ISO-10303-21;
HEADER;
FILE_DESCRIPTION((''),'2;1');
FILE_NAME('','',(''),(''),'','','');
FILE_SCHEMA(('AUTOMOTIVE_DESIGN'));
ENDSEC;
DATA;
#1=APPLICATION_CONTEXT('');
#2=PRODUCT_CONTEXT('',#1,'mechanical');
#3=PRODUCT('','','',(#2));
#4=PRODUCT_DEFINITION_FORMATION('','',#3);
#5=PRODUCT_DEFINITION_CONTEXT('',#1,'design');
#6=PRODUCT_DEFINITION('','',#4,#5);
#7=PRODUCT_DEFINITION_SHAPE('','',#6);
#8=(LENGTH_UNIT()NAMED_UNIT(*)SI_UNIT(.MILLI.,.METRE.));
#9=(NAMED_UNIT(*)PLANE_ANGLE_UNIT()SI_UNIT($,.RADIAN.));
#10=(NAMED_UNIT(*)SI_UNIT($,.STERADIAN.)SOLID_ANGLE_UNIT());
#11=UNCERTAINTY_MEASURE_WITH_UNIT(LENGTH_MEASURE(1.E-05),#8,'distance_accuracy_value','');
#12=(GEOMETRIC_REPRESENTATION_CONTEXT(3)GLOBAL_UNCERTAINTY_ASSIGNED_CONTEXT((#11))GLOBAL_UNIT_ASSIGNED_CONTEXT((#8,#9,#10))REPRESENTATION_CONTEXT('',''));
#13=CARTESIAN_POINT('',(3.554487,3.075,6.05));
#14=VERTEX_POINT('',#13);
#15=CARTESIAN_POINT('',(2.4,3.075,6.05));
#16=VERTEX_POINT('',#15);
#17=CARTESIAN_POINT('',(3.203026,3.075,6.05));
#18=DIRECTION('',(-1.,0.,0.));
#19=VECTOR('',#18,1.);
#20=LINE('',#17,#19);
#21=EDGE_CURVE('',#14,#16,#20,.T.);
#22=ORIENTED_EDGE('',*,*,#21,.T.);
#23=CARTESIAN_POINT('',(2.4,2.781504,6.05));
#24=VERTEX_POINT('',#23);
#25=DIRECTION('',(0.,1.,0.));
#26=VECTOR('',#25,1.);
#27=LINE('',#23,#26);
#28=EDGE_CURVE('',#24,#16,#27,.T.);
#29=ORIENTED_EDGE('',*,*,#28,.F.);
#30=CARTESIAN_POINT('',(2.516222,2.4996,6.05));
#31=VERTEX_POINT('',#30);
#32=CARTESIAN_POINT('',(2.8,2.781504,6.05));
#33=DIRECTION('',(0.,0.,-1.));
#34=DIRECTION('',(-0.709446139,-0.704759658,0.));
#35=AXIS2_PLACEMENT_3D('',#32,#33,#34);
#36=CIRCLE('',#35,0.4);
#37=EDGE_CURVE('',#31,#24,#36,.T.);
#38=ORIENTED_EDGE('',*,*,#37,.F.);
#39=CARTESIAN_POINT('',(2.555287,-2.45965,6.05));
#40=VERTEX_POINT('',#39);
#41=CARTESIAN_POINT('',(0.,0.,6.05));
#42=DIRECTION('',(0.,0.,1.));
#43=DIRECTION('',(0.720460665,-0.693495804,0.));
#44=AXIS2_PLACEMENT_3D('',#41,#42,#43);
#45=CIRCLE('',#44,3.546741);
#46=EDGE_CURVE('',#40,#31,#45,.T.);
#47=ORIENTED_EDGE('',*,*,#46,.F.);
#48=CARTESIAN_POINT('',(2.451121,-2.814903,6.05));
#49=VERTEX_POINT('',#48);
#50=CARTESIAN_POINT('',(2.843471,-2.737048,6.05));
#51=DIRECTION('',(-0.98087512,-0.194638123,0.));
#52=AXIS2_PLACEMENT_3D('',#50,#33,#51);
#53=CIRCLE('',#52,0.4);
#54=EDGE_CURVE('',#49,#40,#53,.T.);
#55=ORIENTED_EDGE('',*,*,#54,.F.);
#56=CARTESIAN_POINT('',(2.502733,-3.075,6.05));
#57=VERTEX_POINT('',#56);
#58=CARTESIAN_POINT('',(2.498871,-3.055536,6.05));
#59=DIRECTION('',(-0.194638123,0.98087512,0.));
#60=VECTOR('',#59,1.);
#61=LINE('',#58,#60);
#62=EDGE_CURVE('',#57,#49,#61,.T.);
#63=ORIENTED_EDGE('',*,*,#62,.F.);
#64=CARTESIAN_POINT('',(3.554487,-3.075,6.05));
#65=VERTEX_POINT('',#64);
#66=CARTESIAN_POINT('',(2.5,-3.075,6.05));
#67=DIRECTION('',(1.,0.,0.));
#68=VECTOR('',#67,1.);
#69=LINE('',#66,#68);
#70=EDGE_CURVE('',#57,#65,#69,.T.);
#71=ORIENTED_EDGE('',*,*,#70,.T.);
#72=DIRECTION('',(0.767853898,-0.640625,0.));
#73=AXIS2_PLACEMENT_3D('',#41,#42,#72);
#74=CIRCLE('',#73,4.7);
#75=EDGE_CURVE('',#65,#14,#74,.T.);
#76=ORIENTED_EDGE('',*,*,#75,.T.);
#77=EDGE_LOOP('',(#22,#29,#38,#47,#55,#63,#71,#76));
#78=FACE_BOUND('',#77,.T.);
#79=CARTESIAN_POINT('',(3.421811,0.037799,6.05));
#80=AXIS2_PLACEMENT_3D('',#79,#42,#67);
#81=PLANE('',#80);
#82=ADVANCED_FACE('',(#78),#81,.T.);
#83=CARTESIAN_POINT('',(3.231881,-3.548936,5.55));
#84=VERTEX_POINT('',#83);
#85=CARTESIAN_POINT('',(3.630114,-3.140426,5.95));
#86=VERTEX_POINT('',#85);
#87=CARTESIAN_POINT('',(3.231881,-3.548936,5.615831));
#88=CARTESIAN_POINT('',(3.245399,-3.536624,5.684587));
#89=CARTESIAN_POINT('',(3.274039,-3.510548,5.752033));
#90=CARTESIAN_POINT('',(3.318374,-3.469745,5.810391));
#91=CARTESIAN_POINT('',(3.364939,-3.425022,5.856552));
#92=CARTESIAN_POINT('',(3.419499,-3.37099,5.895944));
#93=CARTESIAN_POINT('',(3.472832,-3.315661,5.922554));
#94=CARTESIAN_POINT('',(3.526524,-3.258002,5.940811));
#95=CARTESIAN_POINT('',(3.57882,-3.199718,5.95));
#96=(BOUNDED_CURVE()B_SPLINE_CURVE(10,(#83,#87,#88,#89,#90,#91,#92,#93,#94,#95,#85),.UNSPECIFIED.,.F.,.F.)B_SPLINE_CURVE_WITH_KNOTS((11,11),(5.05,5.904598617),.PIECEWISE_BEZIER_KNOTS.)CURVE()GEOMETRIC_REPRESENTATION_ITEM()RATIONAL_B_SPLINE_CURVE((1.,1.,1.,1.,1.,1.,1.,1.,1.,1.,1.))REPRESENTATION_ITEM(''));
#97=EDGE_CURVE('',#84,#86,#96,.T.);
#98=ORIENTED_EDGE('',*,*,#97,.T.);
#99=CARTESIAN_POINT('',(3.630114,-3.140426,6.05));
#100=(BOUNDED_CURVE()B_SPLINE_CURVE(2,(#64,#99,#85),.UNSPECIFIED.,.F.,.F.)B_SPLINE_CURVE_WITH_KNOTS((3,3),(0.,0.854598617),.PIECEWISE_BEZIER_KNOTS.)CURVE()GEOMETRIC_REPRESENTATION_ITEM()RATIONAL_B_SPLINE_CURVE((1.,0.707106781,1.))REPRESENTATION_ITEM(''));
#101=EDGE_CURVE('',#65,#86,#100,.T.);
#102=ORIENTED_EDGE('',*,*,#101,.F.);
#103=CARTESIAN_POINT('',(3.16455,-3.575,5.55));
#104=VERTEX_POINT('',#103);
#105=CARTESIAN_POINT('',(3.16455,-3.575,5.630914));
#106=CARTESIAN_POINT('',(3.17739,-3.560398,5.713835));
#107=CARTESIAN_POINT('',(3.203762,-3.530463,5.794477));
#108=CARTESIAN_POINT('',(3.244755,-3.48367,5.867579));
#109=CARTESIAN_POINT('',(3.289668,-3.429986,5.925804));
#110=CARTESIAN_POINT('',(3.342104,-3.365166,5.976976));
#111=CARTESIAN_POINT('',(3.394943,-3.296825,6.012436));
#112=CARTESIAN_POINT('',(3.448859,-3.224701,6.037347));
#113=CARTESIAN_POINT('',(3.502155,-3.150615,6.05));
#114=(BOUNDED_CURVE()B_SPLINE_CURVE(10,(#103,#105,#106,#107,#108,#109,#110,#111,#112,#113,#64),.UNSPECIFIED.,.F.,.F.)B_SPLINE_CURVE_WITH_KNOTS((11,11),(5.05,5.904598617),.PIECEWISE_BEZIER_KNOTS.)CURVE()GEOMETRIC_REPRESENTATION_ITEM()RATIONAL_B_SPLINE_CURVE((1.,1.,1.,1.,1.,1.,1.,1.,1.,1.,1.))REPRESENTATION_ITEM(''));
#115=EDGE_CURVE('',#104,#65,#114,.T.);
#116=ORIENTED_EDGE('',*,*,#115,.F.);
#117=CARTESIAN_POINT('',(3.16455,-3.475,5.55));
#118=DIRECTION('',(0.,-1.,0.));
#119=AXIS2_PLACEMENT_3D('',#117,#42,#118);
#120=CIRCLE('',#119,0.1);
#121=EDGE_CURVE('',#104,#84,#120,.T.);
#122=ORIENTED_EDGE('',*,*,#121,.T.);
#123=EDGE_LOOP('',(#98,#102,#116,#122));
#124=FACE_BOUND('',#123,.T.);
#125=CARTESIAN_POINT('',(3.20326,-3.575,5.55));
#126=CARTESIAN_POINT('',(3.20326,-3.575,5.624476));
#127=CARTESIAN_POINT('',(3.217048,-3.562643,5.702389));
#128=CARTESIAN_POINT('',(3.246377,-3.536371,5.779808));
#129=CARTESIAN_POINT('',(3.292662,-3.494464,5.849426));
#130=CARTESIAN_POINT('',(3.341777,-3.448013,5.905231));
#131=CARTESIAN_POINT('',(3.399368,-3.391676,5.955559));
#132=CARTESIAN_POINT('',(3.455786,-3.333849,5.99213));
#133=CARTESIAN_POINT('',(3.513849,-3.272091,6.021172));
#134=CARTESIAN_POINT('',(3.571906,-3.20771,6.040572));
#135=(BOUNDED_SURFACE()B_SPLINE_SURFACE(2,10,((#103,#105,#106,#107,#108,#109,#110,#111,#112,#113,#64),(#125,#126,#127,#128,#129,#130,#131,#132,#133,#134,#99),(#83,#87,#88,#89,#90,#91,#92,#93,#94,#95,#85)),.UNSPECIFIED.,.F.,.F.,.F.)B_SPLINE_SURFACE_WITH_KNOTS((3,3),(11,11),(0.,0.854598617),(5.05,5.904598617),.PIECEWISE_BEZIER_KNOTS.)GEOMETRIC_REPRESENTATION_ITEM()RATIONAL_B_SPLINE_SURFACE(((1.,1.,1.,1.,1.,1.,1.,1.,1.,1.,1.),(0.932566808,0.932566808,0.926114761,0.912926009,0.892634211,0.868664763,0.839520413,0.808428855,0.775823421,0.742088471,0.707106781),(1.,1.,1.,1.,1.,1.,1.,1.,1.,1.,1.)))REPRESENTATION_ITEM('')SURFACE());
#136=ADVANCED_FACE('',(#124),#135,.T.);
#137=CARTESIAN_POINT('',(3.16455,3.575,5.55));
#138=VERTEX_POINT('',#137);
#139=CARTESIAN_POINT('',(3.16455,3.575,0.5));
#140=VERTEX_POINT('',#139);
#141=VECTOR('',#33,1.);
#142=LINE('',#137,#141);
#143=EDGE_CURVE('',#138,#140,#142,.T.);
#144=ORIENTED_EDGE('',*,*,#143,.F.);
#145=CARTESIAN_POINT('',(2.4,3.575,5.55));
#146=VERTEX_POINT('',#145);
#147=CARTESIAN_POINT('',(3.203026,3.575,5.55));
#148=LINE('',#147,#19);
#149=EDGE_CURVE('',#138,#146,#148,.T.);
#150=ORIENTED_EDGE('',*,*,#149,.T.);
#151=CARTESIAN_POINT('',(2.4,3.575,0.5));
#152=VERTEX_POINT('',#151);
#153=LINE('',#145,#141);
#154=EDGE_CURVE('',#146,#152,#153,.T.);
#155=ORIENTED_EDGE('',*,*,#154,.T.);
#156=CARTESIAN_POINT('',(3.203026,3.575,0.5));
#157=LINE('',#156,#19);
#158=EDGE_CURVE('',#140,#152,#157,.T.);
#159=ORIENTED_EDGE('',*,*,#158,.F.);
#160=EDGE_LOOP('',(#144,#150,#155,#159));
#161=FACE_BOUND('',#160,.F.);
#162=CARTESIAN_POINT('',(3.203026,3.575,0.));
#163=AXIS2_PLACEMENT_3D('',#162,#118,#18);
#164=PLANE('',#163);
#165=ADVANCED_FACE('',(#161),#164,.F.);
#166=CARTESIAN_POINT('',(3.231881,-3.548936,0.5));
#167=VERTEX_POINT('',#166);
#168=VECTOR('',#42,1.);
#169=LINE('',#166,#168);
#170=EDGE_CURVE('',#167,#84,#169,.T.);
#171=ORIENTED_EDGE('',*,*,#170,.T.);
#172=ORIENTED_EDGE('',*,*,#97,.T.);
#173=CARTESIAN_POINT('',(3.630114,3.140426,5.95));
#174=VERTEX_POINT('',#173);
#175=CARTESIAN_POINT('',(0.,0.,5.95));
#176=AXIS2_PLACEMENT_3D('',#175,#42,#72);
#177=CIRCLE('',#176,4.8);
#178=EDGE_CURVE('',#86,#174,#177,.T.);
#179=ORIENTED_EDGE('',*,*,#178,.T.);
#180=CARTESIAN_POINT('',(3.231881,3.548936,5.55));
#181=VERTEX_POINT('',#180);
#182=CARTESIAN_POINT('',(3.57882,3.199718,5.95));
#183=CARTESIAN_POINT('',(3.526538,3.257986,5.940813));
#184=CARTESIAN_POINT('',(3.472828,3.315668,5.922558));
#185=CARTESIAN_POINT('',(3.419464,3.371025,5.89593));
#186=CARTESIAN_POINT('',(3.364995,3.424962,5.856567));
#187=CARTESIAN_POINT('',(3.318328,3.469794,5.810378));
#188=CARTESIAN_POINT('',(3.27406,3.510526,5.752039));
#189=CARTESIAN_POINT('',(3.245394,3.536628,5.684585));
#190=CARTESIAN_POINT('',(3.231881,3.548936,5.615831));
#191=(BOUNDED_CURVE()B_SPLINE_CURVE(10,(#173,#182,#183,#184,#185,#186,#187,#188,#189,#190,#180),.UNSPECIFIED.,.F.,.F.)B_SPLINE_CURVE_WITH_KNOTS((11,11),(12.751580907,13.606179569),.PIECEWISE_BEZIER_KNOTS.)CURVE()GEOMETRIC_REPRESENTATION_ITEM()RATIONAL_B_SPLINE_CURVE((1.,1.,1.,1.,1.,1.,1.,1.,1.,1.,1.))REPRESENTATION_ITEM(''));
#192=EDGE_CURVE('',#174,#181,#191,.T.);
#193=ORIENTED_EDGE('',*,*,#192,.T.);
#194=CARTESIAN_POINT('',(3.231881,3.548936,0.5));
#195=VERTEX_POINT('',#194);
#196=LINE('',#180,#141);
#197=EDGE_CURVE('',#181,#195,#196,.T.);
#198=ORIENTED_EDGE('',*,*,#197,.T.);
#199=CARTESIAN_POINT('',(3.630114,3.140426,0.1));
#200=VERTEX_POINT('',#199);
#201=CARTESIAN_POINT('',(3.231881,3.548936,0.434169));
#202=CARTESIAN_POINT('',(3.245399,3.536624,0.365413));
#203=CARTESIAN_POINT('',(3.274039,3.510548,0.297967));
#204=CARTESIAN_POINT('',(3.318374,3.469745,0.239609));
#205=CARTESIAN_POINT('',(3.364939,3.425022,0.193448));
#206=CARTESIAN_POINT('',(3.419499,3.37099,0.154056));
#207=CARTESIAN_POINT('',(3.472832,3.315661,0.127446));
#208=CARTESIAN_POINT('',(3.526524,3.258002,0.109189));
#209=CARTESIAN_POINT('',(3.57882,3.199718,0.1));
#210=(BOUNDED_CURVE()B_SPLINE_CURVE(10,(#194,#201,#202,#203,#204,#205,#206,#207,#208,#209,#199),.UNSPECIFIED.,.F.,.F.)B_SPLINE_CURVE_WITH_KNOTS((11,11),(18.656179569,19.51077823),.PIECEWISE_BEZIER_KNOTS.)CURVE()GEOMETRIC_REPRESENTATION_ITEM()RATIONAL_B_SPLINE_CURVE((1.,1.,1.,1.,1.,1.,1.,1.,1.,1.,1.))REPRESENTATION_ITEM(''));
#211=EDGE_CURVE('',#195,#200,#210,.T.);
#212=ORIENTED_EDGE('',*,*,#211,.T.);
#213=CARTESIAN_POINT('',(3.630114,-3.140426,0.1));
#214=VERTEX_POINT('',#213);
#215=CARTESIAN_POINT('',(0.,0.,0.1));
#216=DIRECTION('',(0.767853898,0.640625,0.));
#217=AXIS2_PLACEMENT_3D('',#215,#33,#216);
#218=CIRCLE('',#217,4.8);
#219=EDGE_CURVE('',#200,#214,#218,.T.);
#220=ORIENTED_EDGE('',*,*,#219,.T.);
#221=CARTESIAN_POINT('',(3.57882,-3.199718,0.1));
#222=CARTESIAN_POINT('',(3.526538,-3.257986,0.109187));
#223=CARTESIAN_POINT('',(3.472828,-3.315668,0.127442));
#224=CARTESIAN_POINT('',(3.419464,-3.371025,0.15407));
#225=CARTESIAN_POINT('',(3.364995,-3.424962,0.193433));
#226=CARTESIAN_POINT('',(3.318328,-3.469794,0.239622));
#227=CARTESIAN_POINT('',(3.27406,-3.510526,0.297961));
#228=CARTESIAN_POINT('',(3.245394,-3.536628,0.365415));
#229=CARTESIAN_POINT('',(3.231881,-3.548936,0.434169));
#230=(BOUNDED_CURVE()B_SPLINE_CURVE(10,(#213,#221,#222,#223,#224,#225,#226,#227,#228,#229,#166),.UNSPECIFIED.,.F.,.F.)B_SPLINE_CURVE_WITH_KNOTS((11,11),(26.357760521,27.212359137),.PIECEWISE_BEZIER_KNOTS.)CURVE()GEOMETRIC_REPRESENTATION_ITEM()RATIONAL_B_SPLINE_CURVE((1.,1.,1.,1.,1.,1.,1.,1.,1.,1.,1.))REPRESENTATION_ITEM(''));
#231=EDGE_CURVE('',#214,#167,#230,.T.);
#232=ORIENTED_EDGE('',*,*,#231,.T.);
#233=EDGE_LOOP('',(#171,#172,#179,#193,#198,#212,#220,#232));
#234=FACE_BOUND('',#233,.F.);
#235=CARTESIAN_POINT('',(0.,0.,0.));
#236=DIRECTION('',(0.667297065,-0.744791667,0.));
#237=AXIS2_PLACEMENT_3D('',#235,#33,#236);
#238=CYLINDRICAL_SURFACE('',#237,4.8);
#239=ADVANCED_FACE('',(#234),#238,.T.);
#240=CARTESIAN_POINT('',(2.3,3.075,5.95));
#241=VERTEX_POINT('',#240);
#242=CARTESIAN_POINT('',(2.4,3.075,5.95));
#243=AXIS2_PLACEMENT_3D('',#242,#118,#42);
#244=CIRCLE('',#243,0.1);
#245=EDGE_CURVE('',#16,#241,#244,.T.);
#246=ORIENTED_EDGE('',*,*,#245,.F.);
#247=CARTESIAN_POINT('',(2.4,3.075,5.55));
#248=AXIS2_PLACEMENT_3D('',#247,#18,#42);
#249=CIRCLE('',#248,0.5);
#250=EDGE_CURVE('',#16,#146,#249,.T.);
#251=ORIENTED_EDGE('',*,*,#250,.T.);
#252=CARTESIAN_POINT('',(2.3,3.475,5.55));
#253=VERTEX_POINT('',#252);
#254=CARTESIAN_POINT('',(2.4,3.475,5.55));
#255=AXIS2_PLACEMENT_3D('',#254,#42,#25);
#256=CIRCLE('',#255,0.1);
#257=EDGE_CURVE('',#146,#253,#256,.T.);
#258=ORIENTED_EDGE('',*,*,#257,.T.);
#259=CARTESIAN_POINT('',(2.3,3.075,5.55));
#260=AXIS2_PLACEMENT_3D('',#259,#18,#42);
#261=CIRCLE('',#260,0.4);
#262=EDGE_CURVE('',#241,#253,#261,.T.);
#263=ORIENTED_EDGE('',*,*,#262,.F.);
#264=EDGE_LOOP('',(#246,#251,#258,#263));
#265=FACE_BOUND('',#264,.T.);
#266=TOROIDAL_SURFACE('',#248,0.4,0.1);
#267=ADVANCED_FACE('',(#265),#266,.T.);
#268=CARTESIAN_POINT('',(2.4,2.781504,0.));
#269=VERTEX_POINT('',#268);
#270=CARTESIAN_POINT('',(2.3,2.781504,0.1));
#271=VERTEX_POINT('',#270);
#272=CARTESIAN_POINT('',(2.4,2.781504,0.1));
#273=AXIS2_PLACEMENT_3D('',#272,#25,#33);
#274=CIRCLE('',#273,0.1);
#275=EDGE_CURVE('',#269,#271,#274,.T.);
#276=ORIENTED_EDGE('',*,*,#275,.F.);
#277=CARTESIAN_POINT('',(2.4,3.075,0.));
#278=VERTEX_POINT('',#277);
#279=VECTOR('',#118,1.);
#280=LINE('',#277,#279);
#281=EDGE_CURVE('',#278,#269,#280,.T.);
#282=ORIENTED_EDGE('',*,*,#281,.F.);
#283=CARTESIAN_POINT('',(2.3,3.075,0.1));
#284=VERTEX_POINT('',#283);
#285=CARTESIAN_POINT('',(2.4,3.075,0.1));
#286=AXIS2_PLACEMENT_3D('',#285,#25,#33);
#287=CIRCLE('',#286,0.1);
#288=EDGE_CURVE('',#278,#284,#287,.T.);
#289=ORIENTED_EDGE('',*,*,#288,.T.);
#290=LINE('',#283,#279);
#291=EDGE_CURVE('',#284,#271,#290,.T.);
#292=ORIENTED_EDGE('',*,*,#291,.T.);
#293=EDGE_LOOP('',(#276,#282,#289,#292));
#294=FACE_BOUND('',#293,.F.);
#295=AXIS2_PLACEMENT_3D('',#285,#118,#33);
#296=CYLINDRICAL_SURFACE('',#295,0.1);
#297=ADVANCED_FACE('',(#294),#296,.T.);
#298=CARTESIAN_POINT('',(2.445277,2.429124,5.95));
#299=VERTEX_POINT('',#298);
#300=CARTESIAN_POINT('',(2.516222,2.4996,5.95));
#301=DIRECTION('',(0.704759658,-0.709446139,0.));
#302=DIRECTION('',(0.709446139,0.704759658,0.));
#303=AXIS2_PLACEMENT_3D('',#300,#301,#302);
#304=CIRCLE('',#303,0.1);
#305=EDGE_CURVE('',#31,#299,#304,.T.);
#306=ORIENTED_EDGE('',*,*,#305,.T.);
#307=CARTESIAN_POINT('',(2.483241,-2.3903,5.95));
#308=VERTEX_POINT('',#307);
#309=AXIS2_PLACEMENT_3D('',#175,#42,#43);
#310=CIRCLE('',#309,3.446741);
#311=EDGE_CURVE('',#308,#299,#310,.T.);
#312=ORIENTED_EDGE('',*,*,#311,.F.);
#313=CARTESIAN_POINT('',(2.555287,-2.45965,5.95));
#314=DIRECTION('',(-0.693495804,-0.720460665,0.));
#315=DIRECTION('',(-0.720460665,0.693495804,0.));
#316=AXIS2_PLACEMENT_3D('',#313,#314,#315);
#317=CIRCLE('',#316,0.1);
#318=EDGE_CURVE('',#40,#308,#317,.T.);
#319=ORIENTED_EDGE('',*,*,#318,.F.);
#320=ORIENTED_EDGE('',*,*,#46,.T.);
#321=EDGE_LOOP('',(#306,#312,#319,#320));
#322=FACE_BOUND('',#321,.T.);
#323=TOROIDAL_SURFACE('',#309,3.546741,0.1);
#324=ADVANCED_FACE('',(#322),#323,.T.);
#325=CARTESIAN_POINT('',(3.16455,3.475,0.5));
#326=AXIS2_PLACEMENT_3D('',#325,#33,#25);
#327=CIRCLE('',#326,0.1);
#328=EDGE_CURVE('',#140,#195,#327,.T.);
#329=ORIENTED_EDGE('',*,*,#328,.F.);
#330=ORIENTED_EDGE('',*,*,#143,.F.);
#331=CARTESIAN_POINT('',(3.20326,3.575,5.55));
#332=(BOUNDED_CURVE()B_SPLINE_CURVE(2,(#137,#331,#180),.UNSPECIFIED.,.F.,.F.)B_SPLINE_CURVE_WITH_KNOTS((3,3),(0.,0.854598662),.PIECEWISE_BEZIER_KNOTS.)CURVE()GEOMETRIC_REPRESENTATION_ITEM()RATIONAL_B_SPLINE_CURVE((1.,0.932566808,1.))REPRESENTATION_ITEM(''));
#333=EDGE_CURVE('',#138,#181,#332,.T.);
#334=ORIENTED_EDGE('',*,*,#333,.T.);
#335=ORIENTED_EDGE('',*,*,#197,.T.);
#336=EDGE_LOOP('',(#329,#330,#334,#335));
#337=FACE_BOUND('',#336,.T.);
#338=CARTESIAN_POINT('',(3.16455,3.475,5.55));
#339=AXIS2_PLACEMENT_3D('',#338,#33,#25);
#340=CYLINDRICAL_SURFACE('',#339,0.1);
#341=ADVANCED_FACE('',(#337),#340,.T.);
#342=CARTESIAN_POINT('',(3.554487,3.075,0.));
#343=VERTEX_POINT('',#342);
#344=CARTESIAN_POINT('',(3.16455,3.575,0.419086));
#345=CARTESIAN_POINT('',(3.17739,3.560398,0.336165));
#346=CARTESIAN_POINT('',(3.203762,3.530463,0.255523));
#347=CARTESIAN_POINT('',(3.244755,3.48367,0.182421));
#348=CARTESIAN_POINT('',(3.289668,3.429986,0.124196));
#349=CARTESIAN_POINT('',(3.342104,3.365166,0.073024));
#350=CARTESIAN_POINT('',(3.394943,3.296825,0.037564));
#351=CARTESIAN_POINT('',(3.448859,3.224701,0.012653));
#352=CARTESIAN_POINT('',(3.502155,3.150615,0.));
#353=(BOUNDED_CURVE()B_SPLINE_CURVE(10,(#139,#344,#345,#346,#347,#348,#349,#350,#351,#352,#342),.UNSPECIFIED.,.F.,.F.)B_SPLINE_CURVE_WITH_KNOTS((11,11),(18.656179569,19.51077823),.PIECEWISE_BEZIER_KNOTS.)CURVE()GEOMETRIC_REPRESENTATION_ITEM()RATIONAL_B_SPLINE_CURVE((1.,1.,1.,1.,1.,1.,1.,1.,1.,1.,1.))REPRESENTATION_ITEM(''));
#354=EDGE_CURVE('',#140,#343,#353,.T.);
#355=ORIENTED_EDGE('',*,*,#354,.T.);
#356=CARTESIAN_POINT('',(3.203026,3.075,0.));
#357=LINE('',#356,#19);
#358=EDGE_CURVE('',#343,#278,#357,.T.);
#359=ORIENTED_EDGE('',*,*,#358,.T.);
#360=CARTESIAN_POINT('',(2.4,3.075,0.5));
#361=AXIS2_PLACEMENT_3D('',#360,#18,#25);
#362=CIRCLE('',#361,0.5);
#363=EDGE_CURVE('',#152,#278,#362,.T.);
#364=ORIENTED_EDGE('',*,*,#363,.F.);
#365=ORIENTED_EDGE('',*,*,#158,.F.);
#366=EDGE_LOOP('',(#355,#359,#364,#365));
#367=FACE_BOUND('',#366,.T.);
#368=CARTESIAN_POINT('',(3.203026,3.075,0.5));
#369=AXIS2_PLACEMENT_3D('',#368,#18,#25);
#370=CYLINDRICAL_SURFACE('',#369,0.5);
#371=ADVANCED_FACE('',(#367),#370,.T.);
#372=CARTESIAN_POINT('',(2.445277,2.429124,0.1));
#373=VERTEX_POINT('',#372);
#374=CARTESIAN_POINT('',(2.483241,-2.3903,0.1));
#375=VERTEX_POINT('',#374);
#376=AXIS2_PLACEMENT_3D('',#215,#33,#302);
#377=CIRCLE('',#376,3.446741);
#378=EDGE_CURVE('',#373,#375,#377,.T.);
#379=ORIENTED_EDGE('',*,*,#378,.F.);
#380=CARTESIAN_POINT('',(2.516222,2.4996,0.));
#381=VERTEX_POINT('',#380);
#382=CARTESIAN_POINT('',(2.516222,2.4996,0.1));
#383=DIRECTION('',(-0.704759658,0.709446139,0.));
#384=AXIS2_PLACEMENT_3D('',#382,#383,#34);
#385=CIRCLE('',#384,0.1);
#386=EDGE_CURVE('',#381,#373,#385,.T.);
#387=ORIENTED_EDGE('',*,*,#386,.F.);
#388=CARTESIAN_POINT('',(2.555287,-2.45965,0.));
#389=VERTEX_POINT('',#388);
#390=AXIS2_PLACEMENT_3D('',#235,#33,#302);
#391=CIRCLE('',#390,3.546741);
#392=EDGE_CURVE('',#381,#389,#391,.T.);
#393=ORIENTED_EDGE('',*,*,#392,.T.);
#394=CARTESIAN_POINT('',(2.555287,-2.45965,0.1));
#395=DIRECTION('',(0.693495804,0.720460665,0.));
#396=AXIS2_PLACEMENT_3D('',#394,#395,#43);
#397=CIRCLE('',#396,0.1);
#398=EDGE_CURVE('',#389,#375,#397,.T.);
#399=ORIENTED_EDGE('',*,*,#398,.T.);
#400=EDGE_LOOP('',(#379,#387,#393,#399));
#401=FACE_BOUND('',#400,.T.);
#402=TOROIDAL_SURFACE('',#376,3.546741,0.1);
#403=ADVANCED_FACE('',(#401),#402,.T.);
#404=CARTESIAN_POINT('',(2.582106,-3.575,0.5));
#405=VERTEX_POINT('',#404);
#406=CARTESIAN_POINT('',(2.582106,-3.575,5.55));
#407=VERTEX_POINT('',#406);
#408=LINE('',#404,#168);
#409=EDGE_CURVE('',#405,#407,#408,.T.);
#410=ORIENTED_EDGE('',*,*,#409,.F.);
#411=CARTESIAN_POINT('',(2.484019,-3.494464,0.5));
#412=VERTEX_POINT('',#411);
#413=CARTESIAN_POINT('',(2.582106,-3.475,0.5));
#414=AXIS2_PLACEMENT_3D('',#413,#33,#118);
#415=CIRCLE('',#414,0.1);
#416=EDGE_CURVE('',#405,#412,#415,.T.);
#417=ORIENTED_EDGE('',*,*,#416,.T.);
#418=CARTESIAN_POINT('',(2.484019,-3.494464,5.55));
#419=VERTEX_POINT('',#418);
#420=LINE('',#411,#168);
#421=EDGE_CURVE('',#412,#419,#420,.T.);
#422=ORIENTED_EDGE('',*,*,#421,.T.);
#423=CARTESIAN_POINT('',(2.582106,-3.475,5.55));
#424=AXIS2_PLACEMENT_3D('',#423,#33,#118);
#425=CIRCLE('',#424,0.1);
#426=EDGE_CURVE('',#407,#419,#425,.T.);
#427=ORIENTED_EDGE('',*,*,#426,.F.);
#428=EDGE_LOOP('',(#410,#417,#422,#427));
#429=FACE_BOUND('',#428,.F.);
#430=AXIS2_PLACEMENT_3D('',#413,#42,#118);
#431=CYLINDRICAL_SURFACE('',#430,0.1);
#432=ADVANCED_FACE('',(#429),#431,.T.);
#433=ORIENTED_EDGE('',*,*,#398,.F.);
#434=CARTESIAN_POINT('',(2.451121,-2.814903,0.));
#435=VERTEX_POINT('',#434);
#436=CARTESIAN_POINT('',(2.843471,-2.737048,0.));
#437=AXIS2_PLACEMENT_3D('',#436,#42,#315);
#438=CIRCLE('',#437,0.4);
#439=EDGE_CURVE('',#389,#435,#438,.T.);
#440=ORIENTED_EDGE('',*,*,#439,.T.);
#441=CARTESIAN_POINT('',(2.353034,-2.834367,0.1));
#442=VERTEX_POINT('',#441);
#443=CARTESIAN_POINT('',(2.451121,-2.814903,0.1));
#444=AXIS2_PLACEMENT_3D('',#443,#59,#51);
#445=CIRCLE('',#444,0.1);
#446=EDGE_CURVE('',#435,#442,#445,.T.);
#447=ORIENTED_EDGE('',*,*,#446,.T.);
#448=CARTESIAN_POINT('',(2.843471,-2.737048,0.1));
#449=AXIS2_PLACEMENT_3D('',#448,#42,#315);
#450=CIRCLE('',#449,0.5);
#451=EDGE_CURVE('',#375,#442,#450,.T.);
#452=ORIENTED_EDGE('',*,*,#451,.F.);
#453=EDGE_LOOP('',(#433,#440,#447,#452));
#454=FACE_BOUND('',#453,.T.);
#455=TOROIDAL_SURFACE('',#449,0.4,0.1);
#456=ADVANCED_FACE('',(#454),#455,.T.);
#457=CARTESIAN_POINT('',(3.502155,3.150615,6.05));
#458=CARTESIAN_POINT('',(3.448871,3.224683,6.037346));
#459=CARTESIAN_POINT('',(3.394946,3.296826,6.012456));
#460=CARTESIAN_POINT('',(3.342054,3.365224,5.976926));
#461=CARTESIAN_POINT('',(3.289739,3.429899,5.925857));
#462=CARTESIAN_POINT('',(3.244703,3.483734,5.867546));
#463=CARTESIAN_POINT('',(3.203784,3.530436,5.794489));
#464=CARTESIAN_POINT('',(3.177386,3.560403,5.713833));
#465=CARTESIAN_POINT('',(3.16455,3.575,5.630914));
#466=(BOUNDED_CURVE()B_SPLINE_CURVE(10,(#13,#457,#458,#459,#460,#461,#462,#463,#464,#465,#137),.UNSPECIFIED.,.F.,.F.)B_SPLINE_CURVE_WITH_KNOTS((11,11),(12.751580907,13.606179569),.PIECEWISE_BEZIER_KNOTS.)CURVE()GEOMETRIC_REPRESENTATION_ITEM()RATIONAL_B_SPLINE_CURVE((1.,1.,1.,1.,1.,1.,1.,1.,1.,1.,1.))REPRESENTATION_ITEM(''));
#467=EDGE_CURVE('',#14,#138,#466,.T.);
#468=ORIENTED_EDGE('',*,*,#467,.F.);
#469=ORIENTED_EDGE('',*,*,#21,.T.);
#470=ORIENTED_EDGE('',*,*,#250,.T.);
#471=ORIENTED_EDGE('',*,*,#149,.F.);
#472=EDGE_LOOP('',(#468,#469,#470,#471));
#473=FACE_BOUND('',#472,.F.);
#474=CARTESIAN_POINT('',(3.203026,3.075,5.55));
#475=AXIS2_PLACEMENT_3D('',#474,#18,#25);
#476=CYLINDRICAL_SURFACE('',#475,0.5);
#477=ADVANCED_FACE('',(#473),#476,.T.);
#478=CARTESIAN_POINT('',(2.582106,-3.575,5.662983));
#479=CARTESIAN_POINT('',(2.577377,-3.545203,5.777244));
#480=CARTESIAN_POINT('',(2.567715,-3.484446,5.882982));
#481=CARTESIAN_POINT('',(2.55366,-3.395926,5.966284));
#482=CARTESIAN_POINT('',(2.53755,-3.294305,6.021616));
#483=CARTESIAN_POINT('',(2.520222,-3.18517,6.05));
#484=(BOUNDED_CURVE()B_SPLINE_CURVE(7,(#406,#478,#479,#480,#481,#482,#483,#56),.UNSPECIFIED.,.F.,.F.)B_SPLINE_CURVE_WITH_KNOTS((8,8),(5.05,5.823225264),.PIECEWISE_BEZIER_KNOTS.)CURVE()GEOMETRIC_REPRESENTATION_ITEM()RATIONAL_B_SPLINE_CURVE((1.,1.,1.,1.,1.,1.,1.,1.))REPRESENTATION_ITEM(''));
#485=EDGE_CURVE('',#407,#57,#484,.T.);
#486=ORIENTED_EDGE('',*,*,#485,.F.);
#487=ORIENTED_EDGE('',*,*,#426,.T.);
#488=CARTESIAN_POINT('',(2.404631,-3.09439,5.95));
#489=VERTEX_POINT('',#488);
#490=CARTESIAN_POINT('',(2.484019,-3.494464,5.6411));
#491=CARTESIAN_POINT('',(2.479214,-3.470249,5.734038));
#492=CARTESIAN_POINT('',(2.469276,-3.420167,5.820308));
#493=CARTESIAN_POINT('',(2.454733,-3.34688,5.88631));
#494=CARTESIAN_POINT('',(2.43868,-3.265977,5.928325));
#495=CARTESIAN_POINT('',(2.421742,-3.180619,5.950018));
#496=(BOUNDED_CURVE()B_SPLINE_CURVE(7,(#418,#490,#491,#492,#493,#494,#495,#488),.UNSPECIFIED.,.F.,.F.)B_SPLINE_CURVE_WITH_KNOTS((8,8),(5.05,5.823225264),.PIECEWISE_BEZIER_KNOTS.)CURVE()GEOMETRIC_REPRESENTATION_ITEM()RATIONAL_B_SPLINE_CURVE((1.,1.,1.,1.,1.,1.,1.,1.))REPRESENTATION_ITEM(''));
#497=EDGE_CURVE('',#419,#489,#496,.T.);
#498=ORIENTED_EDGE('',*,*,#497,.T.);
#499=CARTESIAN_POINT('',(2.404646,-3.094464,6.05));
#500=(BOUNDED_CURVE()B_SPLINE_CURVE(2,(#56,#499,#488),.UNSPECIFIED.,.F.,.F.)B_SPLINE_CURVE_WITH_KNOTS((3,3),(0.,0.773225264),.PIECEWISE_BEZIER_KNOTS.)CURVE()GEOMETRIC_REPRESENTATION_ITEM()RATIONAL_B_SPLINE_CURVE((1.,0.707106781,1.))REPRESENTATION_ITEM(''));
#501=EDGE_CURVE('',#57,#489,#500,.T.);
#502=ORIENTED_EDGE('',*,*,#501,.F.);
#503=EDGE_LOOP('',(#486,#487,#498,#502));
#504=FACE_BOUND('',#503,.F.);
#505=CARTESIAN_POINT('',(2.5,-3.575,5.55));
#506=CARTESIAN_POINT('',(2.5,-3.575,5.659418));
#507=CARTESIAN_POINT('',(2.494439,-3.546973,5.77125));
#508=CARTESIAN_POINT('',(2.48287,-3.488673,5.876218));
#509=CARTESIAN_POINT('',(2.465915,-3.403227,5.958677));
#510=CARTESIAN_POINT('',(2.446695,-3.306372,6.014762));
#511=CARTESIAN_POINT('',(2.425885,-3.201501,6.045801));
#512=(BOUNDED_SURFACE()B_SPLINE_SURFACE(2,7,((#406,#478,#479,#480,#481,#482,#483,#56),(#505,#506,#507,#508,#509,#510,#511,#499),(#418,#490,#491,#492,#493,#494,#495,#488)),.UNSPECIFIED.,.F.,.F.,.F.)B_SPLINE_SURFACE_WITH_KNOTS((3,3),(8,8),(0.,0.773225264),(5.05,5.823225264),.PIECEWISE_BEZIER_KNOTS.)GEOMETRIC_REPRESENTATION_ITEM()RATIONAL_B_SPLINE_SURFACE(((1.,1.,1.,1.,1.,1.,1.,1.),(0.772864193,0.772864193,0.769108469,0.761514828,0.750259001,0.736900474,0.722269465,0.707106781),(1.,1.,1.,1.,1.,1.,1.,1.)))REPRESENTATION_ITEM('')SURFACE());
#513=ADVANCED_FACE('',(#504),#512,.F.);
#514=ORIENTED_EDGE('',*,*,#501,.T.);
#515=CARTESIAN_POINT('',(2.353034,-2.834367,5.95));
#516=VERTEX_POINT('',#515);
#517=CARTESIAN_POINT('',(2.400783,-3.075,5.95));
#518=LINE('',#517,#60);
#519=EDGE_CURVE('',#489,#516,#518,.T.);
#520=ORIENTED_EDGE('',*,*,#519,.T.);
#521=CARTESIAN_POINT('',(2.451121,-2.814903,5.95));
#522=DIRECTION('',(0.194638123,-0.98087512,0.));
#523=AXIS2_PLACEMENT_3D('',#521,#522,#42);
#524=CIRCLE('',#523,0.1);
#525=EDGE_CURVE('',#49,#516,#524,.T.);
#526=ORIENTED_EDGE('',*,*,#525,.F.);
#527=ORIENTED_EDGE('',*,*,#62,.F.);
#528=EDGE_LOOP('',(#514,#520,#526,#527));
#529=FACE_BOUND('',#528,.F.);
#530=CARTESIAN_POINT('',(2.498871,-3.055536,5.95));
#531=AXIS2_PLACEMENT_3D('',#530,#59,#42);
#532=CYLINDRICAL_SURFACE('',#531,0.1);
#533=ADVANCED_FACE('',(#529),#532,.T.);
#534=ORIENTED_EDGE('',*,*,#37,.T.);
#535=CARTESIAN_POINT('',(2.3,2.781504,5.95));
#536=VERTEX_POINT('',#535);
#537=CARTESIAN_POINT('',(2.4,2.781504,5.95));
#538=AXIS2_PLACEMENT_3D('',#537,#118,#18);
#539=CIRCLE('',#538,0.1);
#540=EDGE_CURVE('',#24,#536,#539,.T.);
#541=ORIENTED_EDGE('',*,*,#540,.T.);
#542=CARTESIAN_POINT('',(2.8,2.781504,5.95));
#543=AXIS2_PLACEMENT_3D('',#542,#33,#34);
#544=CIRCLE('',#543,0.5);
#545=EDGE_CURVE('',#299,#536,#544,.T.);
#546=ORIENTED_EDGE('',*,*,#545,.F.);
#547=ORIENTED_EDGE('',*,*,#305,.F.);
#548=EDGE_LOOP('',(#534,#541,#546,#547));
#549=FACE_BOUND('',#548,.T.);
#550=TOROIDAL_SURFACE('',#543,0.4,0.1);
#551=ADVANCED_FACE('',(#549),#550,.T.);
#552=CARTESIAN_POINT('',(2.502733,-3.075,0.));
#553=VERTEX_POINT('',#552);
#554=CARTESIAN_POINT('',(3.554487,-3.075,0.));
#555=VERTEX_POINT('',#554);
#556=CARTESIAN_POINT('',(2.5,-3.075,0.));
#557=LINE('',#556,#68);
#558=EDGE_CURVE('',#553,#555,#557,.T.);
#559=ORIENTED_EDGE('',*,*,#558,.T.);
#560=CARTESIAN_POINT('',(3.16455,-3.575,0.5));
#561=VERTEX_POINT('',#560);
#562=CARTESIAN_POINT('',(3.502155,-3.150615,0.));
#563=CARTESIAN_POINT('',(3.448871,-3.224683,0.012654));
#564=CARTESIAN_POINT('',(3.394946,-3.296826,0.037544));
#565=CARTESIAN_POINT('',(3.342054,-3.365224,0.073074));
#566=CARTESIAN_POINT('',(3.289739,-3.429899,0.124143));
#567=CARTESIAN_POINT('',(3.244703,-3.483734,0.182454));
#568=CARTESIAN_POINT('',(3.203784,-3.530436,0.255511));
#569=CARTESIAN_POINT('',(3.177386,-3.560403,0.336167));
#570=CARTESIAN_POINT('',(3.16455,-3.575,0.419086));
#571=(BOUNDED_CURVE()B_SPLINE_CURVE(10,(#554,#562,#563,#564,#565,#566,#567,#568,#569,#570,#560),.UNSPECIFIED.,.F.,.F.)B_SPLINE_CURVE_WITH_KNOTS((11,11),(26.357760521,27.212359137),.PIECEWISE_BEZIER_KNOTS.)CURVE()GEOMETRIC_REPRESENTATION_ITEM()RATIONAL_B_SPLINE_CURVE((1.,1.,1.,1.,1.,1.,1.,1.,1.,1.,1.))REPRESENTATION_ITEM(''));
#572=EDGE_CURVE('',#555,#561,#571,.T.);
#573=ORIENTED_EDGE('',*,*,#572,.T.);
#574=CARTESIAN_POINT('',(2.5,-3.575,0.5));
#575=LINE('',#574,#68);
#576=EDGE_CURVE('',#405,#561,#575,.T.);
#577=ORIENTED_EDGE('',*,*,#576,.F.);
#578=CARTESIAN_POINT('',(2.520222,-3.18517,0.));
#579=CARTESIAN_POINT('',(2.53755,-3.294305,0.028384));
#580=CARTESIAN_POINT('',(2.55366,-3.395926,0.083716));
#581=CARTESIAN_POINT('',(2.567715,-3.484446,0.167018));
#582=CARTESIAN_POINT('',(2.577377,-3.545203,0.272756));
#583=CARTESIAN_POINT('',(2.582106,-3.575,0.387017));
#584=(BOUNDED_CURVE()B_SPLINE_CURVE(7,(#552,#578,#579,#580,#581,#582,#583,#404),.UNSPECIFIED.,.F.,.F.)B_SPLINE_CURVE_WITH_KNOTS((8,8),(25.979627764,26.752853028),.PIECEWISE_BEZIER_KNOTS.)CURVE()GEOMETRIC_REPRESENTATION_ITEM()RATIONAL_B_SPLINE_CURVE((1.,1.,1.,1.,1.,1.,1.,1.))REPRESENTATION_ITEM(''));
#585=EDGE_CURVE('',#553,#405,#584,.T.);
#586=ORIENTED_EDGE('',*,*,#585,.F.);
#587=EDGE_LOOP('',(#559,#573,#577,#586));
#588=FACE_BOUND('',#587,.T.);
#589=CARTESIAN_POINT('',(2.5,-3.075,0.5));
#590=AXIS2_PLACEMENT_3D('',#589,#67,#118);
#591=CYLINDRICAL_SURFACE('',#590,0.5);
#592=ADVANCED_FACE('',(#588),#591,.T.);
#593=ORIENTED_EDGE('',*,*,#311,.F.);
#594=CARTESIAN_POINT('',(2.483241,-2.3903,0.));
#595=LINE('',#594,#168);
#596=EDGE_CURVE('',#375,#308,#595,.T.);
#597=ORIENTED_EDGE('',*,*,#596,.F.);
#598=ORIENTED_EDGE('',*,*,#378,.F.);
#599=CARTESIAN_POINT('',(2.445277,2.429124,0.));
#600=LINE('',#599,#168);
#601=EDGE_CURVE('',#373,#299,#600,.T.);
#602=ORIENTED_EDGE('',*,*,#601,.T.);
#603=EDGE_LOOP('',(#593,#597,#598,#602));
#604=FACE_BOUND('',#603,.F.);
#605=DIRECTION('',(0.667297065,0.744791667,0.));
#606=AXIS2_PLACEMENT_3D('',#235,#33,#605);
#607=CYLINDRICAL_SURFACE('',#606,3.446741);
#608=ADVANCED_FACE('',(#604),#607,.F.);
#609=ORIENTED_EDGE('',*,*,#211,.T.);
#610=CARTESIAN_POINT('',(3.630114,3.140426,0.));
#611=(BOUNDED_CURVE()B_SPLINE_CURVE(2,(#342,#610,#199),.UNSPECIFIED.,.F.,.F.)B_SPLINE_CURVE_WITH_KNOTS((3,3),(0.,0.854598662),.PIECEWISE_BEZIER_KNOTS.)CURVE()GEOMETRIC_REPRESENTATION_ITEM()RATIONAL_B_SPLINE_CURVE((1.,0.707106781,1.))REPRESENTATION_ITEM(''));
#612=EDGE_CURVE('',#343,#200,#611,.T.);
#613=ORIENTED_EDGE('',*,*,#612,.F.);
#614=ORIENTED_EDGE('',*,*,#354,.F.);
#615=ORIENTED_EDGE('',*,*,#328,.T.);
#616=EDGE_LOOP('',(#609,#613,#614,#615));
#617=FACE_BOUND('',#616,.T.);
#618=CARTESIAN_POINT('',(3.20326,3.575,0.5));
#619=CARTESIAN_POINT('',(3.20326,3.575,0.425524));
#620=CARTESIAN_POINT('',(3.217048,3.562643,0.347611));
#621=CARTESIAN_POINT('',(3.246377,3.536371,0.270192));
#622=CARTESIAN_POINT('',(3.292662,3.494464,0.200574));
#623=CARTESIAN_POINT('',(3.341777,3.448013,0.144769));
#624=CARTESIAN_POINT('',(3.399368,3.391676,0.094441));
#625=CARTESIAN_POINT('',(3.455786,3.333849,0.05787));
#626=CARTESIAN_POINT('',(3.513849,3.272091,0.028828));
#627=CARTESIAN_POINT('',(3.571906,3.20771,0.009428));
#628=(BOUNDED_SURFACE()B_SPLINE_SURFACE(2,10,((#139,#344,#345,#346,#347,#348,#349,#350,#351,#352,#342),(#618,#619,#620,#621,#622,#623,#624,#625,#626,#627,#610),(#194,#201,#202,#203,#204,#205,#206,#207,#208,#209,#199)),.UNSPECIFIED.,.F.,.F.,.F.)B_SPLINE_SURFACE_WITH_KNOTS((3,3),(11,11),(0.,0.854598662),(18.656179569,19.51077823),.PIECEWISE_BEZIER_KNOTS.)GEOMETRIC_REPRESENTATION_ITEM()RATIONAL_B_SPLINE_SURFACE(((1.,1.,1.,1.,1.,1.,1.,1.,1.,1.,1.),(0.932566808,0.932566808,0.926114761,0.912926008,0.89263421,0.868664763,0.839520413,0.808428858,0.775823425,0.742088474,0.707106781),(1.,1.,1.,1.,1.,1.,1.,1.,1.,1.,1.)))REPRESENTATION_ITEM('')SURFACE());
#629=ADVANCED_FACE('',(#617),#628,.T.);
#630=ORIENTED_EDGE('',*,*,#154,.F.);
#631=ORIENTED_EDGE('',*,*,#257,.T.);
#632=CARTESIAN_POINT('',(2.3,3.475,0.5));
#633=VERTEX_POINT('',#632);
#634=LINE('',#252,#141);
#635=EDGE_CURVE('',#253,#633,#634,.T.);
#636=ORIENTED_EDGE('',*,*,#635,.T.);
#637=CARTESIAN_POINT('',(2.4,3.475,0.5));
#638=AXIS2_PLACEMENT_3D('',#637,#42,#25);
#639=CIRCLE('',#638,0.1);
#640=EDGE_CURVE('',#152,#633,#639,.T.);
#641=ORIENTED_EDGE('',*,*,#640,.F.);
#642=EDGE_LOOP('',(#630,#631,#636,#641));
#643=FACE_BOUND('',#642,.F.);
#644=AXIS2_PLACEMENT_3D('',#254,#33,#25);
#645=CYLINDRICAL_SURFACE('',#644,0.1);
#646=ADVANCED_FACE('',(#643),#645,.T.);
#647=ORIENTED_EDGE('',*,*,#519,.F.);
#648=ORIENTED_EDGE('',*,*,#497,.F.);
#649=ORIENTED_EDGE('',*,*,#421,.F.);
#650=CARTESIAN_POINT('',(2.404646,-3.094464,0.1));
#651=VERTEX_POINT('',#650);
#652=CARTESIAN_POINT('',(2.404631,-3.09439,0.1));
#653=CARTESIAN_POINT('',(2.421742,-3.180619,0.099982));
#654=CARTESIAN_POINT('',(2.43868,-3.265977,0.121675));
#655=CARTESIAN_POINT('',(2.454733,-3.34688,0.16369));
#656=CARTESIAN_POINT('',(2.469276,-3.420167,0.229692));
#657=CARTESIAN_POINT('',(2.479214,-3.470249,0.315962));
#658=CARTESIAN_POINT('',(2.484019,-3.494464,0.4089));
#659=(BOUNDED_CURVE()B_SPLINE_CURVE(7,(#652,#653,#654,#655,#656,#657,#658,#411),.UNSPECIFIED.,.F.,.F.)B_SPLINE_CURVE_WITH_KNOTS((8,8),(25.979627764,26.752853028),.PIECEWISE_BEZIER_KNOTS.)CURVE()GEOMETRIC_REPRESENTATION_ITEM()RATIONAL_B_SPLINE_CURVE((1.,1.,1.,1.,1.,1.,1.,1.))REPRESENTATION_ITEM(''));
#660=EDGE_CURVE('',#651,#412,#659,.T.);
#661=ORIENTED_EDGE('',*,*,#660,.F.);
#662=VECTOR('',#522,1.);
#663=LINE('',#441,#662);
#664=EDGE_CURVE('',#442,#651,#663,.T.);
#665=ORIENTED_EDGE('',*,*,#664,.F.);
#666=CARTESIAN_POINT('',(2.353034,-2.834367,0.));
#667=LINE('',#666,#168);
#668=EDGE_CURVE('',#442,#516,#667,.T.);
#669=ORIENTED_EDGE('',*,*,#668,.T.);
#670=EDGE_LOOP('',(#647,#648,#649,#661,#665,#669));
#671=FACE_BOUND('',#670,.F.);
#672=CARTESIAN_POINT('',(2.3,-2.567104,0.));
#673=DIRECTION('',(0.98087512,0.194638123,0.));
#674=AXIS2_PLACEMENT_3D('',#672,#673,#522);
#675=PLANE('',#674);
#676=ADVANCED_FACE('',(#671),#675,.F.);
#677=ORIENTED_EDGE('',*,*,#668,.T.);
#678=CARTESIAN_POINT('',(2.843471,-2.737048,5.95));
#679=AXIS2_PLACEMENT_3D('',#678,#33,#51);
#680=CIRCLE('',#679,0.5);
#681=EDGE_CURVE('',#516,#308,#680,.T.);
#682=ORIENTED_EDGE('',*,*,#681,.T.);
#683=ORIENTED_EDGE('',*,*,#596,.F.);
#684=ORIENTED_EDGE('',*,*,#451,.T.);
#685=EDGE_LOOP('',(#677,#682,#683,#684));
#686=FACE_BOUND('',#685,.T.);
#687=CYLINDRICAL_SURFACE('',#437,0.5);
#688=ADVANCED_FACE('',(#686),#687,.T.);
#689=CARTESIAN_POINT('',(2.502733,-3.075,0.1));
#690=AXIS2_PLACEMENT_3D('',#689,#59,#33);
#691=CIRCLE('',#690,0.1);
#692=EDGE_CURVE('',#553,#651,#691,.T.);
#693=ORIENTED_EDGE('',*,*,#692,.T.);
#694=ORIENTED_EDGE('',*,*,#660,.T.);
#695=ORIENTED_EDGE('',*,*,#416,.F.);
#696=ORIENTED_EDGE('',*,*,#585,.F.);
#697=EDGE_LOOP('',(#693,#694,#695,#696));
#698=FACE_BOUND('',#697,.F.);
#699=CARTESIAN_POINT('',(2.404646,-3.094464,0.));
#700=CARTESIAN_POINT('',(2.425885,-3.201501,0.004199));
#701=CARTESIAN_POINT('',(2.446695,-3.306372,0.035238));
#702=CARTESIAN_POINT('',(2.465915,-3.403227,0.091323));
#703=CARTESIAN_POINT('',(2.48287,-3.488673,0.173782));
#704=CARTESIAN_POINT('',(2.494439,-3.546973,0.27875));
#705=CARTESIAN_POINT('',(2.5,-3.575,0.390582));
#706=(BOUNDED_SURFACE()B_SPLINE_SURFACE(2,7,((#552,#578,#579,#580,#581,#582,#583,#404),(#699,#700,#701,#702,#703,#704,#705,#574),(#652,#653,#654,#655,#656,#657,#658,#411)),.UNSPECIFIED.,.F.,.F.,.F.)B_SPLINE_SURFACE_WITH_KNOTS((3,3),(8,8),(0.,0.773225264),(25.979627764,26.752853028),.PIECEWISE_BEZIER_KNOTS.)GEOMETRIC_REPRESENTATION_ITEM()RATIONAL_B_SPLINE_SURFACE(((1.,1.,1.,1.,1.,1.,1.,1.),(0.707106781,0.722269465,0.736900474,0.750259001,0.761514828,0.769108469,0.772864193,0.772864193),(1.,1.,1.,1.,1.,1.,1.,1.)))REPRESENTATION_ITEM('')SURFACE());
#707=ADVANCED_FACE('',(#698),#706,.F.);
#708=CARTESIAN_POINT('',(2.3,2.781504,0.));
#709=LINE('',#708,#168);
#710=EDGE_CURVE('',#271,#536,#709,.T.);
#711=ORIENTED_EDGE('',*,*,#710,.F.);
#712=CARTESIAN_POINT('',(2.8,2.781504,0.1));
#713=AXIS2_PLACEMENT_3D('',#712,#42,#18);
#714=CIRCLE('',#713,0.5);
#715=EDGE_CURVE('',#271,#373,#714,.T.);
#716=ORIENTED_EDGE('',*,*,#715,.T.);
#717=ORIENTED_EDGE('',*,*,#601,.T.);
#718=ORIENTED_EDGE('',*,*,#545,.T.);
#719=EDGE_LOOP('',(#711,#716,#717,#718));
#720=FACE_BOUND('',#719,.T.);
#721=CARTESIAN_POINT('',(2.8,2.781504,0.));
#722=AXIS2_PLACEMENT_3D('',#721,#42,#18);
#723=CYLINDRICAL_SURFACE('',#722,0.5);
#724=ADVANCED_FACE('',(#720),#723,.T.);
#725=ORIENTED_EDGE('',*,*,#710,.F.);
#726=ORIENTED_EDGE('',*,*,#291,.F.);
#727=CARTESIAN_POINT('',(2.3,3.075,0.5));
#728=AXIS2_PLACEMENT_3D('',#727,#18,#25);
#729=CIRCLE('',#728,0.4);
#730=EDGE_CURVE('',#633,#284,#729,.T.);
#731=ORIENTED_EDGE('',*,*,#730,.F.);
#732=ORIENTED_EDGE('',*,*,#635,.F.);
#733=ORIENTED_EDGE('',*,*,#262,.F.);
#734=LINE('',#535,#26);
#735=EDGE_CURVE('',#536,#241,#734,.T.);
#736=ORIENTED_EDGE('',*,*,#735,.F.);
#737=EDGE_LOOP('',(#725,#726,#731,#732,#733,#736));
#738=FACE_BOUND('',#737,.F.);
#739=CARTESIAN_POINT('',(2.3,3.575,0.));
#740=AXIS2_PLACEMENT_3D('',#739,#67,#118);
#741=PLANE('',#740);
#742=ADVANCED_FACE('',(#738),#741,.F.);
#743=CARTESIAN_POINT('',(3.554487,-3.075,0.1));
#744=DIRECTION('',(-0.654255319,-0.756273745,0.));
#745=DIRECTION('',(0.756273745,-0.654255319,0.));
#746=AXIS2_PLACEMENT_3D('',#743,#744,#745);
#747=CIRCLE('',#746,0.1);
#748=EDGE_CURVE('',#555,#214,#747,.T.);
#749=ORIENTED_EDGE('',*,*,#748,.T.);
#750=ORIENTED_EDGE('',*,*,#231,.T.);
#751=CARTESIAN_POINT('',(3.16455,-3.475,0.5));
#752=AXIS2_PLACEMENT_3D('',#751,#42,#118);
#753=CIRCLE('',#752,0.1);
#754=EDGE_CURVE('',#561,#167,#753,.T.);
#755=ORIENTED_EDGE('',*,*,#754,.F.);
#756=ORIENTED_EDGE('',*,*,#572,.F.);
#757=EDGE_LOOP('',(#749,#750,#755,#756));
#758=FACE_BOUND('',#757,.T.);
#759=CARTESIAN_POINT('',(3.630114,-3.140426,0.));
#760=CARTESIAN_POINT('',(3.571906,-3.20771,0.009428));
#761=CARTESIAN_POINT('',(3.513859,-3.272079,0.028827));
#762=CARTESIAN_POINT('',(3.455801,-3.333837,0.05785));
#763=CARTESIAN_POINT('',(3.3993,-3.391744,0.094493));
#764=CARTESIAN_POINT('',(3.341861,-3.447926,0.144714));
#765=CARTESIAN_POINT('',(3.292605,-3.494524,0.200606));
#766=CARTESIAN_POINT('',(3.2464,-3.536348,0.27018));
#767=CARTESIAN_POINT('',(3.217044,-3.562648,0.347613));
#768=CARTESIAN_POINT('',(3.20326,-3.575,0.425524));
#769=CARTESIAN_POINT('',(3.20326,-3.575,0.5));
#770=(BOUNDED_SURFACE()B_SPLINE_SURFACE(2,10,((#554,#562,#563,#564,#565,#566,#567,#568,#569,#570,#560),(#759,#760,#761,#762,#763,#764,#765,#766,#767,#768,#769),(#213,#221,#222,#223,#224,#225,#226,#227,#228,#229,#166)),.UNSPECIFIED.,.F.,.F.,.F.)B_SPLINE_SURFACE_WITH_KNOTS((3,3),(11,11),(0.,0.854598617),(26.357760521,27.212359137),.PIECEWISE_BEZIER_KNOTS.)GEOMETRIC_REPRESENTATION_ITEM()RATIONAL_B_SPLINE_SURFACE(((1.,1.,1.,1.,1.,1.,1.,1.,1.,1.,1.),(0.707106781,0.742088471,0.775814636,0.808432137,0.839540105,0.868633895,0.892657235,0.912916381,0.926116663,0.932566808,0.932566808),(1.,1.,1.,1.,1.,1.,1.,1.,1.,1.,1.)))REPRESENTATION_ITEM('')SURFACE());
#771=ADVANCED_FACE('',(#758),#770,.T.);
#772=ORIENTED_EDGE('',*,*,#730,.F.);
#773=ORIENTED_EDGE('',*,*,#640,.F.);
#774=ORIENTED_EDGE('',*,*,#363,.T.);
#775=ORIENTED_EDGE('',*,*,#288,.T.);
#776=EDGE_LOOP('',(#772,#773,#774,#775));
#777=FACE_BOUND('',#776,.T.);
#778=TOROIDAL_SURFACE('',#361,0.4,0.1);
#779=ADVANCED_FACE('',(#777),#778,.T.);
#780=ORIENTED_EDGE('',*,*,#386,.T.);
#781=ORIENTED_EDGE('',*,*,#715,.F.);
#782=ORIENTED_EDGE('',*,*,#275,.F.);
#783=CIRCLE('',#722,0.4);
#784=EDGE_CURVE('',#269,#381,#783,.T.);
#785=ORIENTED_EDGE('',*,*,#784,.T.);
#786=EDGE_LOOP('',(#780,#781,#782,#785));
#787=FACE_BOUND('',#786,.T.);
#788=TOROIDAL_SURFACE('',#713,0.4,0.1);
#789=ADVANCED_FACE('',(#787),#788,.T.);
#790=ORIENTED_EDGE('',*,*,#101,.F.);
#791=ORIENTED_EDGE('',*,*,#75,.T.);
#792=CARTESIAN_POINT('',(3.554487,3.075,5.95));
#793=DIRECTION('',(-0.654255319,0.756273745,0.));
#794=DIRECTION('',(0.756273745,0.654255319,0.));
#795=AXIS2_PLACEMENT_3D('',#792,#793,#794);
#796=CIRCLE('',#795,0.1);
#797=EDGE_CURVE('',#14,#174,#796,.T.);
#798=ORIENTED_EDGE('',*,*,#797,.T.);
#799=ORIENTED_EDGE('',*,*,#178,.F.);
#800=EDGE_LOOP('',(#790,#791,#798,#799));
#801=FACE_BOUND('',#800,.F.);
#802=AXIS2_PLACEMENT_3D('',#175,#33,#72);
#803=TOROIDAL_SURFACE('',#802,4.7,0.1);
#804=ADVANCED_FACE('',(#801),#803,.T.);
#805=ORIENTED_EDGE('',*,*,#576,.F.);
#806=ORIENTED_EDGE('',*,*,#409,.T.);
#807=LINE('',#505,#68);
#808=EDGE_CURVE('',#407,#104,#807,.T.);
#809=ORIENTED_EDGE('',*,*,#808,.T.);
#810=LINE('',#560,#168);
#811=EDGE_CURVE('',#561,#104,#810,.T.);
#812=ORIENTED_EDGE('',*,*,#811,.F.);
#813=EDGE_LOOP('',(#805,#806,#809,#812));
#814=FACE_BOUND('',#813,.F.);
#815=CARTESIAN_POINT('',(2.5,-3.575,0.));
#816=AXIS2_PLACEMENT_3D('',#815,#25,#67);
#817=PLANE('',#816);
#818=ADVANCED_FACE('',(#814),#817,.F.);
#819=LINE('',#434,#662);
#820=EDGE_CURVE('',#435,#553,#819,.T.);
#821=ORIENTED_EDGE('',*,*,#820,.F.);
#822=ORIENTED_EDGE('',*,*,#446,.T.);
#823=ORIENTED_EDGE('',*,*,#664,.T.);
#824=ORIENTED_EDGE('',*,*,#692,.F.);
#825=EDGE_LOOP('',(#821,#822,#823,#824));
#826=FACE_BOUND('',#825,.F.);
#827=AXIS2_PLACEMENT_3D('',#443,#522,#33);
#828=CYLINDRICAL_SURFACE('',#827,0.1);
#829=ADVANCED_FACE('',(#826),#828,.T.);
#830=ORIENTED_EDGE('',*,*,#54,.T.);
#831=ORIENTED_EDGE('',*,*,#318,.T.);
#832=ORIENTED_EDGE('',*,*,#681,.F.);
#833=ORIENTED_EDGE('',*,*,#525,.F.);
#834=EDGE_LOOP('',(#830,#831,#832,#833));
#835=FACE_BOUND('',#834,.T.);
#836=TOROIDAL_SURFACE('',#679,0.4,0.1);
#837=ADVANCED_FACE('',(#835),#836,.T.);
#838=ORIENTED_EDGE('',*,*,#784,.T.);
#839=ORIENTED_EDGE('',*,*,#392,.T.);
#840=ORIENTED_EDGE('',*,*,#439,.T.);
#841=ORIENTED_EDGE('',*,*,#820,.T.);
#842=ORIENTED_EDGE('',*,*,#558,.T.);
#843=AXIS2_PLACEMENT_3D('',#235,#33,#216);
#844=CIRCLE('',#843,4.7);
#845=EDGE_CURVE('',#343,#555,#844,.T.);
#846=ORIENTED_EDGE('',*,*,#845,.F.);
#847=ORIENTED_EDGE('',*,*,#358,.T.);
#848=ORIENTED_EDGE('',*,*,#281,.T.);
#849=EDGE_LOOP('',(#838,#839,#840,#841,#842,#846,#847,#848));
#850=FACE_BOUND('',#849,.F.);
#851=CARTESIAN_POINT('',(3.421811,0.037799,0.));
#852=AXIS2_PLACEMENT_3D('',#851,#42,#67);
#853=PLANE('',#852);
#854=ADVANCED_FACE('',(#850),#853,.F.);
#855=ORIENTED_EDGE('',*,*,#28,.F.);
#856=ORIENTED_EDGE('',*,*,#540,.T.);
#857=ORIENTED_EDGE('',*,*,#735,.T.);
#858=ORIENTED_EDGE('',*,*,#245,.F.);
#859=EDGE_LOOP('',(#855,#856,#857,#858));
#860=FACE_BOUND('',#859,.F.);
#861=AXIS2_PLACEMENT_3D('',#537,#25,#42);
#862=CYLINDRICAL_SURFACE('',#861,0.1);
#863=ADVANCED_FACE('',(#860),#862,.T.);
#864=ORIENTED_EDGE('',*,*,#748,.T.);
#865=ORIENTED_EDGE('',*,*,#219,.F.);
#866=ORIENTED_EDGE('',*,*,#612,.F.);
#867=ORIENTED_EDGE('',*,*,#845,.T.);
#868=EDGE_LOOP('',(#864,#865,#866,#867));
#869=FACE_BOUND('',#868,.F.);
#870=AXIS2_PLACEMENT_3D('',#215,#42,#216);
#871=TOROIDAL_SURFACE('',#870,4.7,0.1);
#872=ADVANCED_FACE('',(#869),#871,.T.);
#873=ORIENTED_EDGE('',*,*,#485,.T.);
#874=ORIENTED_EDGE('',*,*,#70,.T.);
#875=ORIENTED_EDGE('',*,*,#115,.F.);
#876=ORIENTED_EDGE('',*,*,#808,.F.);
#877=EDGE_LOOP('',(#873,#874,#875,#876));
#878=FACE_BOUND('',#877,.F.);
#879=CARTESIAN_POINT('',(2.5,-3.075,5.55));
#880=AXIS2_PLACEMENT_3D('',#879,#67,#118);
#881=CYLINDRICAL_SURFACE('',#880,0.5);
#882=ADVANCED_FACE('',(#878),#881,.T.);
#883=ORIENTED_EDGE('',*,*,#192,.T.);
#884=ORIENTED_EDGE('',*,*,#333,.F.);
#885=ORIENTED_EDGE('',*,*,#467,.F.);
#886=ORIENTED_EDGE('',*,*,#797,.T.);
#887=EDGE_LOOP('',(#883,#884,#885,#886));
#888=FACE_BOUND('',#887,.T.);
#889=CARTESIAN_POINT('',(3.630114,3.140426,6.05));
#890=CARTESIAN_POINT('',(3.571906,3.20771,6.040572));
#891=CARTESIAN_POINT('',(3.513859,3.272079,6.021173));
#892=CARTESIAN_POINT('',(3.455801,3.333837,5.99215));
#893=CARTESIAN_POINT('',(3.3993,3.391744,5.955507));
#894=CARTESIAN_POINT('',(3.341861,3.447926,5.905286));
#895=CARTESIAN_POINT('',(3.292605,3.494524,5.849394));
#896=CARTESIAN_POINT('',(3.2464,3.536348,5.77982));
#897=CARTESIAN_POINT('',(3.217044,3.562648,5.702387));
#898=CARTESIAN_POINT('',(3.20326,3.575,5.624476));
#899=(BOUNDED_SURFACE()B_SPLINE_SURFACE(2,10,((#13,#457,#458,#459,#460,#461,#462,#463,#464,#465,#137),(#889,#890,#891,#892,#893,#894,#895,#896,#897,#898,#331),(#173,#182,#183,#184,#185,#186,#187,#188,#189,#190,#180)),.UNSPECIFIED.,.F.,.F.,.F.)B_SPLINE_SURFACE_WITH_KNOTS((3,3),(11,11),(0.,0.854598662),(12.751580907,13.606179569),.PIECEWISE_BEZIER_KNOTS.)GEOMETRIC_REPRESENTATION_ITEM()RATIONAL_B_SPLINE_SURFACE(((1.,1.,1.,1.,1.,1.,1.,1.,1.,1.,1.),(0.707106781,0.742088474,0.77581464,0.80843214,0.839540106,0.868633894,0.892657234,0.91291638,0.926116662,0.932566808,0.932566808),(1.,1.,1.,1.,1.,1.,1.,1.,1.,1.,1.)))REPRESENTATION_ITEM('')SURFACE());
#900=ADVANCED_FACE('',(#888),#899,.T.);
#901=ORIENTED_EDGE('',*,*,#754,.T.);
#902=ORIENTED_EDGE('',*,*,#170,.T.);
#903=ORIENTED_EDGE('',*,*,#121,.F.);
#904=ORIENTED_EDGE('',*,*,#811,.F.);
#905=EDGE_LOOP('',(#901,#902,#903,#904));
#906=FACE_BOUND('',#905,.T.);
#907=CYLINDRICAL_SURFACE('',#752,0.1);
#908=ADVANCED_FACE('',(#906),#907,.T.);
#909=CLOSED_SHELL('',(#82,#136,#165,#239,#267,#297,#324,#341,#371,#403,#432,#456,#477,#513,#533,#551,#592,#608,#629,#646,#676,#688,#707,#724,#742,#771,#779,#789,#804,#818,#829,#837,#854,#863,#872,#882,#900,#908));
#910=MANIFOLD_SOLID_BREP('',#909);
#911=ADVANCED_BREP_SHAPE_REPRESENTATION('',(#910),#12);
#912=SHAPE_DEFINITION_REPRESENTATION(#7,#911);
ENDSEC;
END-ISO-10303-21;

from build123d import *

# Parameters (mm, degrees)
BOSS_EXTRUDE1_DEPTH = 6.05
FILLET1_R           = 0.5
FILLET2_R           = 0.1


with BuildPart() as part:
    # Sketch1 → Boss-Extrude1 (new body)
    with BuildSketch(Plane.XY):
        with BuildLine():
            Line((2.5, -3.575), (3.203025913, -3.575))
            ThreePointArc((3.203025913, -3.575), (4.8, 0), (3.203025913, 3.575))
            Line((3.203025913, 3.575), (2.3, 3.575))
            Line((2.3, 3.575), (2.3, 2.567103802))
            ThreePointArc((2.3, 2.567103802), (3.446740769, 0), (2.3, -2.567103802))
            Line((2.3, -2.567103802), (2.5, -3.575))
        make_face()
    extrude(amount=BOSS_EXTRUDE1_DEPTH)

    # Fillet1
    fillet1_edges = [part.edges().sort_by_distance(p)[0] for p in [
        (2.751512957, 3.575, 0),
        (2.3, 2.567103802, 3.025),
        (2.3, -2.567103802, 3.025),
        (2.851512957, -3.575, 0),
        (2.851512957, -3.575, 6.05),
        (2.751512957, 3.575, 6.05),
    ]]
    fillet(fillet1_edges, radius=FILLET1_R)

    # Fillet2
    fillet2_edges = [part.edges().sort_by_distance(p)[0] for p in [
        (2.5, -3.575, 3.025),
        (3.203025913, -3.575, 3.025),
        (4.8, 0, 6.05),
        (4.8, 0, 0),
        (3.203025913, 3.575, 3.025),
        (3.383378785, 3.40481248, 5.925797449),
        (3.383378785, 3.40481248, 0.124202551),
        (3.383378797, -3.404812467, 5.92579746),
        (3.383378797, -3.404812467, 0.12420254),
        (2.376908676, -2.954683613, 0),
        (3.446633835, 0.027150287, 0),
        (2.3, 2.928251838, 0),
        (2.337743829, 2.590927621, 0),
        (2.363671694, -2.596363527, 0),
        (2.376908676, -2.954683613, 6.05),
        (2.470600688, -3.426842727, 5.905255817),
        (2.470600688, -3.426842727, 0.144744183),
        (2.3, 2.928251838, 6.05),
        (3.446633835, 0.027150287, 6.05),
        (2.337743829, 2.590927621, 6.05),
        (2.363671694, -2.596363527, 6.05),
        (2.3, 3.575, 3.025),
        (2.3, 3.428553391, 5.903553391),
        (2.3, 3.428553391, 0.146446609),
    ]]
    fillet(fillet2_edges, radius=FILLET2_R)


solid = part.part
